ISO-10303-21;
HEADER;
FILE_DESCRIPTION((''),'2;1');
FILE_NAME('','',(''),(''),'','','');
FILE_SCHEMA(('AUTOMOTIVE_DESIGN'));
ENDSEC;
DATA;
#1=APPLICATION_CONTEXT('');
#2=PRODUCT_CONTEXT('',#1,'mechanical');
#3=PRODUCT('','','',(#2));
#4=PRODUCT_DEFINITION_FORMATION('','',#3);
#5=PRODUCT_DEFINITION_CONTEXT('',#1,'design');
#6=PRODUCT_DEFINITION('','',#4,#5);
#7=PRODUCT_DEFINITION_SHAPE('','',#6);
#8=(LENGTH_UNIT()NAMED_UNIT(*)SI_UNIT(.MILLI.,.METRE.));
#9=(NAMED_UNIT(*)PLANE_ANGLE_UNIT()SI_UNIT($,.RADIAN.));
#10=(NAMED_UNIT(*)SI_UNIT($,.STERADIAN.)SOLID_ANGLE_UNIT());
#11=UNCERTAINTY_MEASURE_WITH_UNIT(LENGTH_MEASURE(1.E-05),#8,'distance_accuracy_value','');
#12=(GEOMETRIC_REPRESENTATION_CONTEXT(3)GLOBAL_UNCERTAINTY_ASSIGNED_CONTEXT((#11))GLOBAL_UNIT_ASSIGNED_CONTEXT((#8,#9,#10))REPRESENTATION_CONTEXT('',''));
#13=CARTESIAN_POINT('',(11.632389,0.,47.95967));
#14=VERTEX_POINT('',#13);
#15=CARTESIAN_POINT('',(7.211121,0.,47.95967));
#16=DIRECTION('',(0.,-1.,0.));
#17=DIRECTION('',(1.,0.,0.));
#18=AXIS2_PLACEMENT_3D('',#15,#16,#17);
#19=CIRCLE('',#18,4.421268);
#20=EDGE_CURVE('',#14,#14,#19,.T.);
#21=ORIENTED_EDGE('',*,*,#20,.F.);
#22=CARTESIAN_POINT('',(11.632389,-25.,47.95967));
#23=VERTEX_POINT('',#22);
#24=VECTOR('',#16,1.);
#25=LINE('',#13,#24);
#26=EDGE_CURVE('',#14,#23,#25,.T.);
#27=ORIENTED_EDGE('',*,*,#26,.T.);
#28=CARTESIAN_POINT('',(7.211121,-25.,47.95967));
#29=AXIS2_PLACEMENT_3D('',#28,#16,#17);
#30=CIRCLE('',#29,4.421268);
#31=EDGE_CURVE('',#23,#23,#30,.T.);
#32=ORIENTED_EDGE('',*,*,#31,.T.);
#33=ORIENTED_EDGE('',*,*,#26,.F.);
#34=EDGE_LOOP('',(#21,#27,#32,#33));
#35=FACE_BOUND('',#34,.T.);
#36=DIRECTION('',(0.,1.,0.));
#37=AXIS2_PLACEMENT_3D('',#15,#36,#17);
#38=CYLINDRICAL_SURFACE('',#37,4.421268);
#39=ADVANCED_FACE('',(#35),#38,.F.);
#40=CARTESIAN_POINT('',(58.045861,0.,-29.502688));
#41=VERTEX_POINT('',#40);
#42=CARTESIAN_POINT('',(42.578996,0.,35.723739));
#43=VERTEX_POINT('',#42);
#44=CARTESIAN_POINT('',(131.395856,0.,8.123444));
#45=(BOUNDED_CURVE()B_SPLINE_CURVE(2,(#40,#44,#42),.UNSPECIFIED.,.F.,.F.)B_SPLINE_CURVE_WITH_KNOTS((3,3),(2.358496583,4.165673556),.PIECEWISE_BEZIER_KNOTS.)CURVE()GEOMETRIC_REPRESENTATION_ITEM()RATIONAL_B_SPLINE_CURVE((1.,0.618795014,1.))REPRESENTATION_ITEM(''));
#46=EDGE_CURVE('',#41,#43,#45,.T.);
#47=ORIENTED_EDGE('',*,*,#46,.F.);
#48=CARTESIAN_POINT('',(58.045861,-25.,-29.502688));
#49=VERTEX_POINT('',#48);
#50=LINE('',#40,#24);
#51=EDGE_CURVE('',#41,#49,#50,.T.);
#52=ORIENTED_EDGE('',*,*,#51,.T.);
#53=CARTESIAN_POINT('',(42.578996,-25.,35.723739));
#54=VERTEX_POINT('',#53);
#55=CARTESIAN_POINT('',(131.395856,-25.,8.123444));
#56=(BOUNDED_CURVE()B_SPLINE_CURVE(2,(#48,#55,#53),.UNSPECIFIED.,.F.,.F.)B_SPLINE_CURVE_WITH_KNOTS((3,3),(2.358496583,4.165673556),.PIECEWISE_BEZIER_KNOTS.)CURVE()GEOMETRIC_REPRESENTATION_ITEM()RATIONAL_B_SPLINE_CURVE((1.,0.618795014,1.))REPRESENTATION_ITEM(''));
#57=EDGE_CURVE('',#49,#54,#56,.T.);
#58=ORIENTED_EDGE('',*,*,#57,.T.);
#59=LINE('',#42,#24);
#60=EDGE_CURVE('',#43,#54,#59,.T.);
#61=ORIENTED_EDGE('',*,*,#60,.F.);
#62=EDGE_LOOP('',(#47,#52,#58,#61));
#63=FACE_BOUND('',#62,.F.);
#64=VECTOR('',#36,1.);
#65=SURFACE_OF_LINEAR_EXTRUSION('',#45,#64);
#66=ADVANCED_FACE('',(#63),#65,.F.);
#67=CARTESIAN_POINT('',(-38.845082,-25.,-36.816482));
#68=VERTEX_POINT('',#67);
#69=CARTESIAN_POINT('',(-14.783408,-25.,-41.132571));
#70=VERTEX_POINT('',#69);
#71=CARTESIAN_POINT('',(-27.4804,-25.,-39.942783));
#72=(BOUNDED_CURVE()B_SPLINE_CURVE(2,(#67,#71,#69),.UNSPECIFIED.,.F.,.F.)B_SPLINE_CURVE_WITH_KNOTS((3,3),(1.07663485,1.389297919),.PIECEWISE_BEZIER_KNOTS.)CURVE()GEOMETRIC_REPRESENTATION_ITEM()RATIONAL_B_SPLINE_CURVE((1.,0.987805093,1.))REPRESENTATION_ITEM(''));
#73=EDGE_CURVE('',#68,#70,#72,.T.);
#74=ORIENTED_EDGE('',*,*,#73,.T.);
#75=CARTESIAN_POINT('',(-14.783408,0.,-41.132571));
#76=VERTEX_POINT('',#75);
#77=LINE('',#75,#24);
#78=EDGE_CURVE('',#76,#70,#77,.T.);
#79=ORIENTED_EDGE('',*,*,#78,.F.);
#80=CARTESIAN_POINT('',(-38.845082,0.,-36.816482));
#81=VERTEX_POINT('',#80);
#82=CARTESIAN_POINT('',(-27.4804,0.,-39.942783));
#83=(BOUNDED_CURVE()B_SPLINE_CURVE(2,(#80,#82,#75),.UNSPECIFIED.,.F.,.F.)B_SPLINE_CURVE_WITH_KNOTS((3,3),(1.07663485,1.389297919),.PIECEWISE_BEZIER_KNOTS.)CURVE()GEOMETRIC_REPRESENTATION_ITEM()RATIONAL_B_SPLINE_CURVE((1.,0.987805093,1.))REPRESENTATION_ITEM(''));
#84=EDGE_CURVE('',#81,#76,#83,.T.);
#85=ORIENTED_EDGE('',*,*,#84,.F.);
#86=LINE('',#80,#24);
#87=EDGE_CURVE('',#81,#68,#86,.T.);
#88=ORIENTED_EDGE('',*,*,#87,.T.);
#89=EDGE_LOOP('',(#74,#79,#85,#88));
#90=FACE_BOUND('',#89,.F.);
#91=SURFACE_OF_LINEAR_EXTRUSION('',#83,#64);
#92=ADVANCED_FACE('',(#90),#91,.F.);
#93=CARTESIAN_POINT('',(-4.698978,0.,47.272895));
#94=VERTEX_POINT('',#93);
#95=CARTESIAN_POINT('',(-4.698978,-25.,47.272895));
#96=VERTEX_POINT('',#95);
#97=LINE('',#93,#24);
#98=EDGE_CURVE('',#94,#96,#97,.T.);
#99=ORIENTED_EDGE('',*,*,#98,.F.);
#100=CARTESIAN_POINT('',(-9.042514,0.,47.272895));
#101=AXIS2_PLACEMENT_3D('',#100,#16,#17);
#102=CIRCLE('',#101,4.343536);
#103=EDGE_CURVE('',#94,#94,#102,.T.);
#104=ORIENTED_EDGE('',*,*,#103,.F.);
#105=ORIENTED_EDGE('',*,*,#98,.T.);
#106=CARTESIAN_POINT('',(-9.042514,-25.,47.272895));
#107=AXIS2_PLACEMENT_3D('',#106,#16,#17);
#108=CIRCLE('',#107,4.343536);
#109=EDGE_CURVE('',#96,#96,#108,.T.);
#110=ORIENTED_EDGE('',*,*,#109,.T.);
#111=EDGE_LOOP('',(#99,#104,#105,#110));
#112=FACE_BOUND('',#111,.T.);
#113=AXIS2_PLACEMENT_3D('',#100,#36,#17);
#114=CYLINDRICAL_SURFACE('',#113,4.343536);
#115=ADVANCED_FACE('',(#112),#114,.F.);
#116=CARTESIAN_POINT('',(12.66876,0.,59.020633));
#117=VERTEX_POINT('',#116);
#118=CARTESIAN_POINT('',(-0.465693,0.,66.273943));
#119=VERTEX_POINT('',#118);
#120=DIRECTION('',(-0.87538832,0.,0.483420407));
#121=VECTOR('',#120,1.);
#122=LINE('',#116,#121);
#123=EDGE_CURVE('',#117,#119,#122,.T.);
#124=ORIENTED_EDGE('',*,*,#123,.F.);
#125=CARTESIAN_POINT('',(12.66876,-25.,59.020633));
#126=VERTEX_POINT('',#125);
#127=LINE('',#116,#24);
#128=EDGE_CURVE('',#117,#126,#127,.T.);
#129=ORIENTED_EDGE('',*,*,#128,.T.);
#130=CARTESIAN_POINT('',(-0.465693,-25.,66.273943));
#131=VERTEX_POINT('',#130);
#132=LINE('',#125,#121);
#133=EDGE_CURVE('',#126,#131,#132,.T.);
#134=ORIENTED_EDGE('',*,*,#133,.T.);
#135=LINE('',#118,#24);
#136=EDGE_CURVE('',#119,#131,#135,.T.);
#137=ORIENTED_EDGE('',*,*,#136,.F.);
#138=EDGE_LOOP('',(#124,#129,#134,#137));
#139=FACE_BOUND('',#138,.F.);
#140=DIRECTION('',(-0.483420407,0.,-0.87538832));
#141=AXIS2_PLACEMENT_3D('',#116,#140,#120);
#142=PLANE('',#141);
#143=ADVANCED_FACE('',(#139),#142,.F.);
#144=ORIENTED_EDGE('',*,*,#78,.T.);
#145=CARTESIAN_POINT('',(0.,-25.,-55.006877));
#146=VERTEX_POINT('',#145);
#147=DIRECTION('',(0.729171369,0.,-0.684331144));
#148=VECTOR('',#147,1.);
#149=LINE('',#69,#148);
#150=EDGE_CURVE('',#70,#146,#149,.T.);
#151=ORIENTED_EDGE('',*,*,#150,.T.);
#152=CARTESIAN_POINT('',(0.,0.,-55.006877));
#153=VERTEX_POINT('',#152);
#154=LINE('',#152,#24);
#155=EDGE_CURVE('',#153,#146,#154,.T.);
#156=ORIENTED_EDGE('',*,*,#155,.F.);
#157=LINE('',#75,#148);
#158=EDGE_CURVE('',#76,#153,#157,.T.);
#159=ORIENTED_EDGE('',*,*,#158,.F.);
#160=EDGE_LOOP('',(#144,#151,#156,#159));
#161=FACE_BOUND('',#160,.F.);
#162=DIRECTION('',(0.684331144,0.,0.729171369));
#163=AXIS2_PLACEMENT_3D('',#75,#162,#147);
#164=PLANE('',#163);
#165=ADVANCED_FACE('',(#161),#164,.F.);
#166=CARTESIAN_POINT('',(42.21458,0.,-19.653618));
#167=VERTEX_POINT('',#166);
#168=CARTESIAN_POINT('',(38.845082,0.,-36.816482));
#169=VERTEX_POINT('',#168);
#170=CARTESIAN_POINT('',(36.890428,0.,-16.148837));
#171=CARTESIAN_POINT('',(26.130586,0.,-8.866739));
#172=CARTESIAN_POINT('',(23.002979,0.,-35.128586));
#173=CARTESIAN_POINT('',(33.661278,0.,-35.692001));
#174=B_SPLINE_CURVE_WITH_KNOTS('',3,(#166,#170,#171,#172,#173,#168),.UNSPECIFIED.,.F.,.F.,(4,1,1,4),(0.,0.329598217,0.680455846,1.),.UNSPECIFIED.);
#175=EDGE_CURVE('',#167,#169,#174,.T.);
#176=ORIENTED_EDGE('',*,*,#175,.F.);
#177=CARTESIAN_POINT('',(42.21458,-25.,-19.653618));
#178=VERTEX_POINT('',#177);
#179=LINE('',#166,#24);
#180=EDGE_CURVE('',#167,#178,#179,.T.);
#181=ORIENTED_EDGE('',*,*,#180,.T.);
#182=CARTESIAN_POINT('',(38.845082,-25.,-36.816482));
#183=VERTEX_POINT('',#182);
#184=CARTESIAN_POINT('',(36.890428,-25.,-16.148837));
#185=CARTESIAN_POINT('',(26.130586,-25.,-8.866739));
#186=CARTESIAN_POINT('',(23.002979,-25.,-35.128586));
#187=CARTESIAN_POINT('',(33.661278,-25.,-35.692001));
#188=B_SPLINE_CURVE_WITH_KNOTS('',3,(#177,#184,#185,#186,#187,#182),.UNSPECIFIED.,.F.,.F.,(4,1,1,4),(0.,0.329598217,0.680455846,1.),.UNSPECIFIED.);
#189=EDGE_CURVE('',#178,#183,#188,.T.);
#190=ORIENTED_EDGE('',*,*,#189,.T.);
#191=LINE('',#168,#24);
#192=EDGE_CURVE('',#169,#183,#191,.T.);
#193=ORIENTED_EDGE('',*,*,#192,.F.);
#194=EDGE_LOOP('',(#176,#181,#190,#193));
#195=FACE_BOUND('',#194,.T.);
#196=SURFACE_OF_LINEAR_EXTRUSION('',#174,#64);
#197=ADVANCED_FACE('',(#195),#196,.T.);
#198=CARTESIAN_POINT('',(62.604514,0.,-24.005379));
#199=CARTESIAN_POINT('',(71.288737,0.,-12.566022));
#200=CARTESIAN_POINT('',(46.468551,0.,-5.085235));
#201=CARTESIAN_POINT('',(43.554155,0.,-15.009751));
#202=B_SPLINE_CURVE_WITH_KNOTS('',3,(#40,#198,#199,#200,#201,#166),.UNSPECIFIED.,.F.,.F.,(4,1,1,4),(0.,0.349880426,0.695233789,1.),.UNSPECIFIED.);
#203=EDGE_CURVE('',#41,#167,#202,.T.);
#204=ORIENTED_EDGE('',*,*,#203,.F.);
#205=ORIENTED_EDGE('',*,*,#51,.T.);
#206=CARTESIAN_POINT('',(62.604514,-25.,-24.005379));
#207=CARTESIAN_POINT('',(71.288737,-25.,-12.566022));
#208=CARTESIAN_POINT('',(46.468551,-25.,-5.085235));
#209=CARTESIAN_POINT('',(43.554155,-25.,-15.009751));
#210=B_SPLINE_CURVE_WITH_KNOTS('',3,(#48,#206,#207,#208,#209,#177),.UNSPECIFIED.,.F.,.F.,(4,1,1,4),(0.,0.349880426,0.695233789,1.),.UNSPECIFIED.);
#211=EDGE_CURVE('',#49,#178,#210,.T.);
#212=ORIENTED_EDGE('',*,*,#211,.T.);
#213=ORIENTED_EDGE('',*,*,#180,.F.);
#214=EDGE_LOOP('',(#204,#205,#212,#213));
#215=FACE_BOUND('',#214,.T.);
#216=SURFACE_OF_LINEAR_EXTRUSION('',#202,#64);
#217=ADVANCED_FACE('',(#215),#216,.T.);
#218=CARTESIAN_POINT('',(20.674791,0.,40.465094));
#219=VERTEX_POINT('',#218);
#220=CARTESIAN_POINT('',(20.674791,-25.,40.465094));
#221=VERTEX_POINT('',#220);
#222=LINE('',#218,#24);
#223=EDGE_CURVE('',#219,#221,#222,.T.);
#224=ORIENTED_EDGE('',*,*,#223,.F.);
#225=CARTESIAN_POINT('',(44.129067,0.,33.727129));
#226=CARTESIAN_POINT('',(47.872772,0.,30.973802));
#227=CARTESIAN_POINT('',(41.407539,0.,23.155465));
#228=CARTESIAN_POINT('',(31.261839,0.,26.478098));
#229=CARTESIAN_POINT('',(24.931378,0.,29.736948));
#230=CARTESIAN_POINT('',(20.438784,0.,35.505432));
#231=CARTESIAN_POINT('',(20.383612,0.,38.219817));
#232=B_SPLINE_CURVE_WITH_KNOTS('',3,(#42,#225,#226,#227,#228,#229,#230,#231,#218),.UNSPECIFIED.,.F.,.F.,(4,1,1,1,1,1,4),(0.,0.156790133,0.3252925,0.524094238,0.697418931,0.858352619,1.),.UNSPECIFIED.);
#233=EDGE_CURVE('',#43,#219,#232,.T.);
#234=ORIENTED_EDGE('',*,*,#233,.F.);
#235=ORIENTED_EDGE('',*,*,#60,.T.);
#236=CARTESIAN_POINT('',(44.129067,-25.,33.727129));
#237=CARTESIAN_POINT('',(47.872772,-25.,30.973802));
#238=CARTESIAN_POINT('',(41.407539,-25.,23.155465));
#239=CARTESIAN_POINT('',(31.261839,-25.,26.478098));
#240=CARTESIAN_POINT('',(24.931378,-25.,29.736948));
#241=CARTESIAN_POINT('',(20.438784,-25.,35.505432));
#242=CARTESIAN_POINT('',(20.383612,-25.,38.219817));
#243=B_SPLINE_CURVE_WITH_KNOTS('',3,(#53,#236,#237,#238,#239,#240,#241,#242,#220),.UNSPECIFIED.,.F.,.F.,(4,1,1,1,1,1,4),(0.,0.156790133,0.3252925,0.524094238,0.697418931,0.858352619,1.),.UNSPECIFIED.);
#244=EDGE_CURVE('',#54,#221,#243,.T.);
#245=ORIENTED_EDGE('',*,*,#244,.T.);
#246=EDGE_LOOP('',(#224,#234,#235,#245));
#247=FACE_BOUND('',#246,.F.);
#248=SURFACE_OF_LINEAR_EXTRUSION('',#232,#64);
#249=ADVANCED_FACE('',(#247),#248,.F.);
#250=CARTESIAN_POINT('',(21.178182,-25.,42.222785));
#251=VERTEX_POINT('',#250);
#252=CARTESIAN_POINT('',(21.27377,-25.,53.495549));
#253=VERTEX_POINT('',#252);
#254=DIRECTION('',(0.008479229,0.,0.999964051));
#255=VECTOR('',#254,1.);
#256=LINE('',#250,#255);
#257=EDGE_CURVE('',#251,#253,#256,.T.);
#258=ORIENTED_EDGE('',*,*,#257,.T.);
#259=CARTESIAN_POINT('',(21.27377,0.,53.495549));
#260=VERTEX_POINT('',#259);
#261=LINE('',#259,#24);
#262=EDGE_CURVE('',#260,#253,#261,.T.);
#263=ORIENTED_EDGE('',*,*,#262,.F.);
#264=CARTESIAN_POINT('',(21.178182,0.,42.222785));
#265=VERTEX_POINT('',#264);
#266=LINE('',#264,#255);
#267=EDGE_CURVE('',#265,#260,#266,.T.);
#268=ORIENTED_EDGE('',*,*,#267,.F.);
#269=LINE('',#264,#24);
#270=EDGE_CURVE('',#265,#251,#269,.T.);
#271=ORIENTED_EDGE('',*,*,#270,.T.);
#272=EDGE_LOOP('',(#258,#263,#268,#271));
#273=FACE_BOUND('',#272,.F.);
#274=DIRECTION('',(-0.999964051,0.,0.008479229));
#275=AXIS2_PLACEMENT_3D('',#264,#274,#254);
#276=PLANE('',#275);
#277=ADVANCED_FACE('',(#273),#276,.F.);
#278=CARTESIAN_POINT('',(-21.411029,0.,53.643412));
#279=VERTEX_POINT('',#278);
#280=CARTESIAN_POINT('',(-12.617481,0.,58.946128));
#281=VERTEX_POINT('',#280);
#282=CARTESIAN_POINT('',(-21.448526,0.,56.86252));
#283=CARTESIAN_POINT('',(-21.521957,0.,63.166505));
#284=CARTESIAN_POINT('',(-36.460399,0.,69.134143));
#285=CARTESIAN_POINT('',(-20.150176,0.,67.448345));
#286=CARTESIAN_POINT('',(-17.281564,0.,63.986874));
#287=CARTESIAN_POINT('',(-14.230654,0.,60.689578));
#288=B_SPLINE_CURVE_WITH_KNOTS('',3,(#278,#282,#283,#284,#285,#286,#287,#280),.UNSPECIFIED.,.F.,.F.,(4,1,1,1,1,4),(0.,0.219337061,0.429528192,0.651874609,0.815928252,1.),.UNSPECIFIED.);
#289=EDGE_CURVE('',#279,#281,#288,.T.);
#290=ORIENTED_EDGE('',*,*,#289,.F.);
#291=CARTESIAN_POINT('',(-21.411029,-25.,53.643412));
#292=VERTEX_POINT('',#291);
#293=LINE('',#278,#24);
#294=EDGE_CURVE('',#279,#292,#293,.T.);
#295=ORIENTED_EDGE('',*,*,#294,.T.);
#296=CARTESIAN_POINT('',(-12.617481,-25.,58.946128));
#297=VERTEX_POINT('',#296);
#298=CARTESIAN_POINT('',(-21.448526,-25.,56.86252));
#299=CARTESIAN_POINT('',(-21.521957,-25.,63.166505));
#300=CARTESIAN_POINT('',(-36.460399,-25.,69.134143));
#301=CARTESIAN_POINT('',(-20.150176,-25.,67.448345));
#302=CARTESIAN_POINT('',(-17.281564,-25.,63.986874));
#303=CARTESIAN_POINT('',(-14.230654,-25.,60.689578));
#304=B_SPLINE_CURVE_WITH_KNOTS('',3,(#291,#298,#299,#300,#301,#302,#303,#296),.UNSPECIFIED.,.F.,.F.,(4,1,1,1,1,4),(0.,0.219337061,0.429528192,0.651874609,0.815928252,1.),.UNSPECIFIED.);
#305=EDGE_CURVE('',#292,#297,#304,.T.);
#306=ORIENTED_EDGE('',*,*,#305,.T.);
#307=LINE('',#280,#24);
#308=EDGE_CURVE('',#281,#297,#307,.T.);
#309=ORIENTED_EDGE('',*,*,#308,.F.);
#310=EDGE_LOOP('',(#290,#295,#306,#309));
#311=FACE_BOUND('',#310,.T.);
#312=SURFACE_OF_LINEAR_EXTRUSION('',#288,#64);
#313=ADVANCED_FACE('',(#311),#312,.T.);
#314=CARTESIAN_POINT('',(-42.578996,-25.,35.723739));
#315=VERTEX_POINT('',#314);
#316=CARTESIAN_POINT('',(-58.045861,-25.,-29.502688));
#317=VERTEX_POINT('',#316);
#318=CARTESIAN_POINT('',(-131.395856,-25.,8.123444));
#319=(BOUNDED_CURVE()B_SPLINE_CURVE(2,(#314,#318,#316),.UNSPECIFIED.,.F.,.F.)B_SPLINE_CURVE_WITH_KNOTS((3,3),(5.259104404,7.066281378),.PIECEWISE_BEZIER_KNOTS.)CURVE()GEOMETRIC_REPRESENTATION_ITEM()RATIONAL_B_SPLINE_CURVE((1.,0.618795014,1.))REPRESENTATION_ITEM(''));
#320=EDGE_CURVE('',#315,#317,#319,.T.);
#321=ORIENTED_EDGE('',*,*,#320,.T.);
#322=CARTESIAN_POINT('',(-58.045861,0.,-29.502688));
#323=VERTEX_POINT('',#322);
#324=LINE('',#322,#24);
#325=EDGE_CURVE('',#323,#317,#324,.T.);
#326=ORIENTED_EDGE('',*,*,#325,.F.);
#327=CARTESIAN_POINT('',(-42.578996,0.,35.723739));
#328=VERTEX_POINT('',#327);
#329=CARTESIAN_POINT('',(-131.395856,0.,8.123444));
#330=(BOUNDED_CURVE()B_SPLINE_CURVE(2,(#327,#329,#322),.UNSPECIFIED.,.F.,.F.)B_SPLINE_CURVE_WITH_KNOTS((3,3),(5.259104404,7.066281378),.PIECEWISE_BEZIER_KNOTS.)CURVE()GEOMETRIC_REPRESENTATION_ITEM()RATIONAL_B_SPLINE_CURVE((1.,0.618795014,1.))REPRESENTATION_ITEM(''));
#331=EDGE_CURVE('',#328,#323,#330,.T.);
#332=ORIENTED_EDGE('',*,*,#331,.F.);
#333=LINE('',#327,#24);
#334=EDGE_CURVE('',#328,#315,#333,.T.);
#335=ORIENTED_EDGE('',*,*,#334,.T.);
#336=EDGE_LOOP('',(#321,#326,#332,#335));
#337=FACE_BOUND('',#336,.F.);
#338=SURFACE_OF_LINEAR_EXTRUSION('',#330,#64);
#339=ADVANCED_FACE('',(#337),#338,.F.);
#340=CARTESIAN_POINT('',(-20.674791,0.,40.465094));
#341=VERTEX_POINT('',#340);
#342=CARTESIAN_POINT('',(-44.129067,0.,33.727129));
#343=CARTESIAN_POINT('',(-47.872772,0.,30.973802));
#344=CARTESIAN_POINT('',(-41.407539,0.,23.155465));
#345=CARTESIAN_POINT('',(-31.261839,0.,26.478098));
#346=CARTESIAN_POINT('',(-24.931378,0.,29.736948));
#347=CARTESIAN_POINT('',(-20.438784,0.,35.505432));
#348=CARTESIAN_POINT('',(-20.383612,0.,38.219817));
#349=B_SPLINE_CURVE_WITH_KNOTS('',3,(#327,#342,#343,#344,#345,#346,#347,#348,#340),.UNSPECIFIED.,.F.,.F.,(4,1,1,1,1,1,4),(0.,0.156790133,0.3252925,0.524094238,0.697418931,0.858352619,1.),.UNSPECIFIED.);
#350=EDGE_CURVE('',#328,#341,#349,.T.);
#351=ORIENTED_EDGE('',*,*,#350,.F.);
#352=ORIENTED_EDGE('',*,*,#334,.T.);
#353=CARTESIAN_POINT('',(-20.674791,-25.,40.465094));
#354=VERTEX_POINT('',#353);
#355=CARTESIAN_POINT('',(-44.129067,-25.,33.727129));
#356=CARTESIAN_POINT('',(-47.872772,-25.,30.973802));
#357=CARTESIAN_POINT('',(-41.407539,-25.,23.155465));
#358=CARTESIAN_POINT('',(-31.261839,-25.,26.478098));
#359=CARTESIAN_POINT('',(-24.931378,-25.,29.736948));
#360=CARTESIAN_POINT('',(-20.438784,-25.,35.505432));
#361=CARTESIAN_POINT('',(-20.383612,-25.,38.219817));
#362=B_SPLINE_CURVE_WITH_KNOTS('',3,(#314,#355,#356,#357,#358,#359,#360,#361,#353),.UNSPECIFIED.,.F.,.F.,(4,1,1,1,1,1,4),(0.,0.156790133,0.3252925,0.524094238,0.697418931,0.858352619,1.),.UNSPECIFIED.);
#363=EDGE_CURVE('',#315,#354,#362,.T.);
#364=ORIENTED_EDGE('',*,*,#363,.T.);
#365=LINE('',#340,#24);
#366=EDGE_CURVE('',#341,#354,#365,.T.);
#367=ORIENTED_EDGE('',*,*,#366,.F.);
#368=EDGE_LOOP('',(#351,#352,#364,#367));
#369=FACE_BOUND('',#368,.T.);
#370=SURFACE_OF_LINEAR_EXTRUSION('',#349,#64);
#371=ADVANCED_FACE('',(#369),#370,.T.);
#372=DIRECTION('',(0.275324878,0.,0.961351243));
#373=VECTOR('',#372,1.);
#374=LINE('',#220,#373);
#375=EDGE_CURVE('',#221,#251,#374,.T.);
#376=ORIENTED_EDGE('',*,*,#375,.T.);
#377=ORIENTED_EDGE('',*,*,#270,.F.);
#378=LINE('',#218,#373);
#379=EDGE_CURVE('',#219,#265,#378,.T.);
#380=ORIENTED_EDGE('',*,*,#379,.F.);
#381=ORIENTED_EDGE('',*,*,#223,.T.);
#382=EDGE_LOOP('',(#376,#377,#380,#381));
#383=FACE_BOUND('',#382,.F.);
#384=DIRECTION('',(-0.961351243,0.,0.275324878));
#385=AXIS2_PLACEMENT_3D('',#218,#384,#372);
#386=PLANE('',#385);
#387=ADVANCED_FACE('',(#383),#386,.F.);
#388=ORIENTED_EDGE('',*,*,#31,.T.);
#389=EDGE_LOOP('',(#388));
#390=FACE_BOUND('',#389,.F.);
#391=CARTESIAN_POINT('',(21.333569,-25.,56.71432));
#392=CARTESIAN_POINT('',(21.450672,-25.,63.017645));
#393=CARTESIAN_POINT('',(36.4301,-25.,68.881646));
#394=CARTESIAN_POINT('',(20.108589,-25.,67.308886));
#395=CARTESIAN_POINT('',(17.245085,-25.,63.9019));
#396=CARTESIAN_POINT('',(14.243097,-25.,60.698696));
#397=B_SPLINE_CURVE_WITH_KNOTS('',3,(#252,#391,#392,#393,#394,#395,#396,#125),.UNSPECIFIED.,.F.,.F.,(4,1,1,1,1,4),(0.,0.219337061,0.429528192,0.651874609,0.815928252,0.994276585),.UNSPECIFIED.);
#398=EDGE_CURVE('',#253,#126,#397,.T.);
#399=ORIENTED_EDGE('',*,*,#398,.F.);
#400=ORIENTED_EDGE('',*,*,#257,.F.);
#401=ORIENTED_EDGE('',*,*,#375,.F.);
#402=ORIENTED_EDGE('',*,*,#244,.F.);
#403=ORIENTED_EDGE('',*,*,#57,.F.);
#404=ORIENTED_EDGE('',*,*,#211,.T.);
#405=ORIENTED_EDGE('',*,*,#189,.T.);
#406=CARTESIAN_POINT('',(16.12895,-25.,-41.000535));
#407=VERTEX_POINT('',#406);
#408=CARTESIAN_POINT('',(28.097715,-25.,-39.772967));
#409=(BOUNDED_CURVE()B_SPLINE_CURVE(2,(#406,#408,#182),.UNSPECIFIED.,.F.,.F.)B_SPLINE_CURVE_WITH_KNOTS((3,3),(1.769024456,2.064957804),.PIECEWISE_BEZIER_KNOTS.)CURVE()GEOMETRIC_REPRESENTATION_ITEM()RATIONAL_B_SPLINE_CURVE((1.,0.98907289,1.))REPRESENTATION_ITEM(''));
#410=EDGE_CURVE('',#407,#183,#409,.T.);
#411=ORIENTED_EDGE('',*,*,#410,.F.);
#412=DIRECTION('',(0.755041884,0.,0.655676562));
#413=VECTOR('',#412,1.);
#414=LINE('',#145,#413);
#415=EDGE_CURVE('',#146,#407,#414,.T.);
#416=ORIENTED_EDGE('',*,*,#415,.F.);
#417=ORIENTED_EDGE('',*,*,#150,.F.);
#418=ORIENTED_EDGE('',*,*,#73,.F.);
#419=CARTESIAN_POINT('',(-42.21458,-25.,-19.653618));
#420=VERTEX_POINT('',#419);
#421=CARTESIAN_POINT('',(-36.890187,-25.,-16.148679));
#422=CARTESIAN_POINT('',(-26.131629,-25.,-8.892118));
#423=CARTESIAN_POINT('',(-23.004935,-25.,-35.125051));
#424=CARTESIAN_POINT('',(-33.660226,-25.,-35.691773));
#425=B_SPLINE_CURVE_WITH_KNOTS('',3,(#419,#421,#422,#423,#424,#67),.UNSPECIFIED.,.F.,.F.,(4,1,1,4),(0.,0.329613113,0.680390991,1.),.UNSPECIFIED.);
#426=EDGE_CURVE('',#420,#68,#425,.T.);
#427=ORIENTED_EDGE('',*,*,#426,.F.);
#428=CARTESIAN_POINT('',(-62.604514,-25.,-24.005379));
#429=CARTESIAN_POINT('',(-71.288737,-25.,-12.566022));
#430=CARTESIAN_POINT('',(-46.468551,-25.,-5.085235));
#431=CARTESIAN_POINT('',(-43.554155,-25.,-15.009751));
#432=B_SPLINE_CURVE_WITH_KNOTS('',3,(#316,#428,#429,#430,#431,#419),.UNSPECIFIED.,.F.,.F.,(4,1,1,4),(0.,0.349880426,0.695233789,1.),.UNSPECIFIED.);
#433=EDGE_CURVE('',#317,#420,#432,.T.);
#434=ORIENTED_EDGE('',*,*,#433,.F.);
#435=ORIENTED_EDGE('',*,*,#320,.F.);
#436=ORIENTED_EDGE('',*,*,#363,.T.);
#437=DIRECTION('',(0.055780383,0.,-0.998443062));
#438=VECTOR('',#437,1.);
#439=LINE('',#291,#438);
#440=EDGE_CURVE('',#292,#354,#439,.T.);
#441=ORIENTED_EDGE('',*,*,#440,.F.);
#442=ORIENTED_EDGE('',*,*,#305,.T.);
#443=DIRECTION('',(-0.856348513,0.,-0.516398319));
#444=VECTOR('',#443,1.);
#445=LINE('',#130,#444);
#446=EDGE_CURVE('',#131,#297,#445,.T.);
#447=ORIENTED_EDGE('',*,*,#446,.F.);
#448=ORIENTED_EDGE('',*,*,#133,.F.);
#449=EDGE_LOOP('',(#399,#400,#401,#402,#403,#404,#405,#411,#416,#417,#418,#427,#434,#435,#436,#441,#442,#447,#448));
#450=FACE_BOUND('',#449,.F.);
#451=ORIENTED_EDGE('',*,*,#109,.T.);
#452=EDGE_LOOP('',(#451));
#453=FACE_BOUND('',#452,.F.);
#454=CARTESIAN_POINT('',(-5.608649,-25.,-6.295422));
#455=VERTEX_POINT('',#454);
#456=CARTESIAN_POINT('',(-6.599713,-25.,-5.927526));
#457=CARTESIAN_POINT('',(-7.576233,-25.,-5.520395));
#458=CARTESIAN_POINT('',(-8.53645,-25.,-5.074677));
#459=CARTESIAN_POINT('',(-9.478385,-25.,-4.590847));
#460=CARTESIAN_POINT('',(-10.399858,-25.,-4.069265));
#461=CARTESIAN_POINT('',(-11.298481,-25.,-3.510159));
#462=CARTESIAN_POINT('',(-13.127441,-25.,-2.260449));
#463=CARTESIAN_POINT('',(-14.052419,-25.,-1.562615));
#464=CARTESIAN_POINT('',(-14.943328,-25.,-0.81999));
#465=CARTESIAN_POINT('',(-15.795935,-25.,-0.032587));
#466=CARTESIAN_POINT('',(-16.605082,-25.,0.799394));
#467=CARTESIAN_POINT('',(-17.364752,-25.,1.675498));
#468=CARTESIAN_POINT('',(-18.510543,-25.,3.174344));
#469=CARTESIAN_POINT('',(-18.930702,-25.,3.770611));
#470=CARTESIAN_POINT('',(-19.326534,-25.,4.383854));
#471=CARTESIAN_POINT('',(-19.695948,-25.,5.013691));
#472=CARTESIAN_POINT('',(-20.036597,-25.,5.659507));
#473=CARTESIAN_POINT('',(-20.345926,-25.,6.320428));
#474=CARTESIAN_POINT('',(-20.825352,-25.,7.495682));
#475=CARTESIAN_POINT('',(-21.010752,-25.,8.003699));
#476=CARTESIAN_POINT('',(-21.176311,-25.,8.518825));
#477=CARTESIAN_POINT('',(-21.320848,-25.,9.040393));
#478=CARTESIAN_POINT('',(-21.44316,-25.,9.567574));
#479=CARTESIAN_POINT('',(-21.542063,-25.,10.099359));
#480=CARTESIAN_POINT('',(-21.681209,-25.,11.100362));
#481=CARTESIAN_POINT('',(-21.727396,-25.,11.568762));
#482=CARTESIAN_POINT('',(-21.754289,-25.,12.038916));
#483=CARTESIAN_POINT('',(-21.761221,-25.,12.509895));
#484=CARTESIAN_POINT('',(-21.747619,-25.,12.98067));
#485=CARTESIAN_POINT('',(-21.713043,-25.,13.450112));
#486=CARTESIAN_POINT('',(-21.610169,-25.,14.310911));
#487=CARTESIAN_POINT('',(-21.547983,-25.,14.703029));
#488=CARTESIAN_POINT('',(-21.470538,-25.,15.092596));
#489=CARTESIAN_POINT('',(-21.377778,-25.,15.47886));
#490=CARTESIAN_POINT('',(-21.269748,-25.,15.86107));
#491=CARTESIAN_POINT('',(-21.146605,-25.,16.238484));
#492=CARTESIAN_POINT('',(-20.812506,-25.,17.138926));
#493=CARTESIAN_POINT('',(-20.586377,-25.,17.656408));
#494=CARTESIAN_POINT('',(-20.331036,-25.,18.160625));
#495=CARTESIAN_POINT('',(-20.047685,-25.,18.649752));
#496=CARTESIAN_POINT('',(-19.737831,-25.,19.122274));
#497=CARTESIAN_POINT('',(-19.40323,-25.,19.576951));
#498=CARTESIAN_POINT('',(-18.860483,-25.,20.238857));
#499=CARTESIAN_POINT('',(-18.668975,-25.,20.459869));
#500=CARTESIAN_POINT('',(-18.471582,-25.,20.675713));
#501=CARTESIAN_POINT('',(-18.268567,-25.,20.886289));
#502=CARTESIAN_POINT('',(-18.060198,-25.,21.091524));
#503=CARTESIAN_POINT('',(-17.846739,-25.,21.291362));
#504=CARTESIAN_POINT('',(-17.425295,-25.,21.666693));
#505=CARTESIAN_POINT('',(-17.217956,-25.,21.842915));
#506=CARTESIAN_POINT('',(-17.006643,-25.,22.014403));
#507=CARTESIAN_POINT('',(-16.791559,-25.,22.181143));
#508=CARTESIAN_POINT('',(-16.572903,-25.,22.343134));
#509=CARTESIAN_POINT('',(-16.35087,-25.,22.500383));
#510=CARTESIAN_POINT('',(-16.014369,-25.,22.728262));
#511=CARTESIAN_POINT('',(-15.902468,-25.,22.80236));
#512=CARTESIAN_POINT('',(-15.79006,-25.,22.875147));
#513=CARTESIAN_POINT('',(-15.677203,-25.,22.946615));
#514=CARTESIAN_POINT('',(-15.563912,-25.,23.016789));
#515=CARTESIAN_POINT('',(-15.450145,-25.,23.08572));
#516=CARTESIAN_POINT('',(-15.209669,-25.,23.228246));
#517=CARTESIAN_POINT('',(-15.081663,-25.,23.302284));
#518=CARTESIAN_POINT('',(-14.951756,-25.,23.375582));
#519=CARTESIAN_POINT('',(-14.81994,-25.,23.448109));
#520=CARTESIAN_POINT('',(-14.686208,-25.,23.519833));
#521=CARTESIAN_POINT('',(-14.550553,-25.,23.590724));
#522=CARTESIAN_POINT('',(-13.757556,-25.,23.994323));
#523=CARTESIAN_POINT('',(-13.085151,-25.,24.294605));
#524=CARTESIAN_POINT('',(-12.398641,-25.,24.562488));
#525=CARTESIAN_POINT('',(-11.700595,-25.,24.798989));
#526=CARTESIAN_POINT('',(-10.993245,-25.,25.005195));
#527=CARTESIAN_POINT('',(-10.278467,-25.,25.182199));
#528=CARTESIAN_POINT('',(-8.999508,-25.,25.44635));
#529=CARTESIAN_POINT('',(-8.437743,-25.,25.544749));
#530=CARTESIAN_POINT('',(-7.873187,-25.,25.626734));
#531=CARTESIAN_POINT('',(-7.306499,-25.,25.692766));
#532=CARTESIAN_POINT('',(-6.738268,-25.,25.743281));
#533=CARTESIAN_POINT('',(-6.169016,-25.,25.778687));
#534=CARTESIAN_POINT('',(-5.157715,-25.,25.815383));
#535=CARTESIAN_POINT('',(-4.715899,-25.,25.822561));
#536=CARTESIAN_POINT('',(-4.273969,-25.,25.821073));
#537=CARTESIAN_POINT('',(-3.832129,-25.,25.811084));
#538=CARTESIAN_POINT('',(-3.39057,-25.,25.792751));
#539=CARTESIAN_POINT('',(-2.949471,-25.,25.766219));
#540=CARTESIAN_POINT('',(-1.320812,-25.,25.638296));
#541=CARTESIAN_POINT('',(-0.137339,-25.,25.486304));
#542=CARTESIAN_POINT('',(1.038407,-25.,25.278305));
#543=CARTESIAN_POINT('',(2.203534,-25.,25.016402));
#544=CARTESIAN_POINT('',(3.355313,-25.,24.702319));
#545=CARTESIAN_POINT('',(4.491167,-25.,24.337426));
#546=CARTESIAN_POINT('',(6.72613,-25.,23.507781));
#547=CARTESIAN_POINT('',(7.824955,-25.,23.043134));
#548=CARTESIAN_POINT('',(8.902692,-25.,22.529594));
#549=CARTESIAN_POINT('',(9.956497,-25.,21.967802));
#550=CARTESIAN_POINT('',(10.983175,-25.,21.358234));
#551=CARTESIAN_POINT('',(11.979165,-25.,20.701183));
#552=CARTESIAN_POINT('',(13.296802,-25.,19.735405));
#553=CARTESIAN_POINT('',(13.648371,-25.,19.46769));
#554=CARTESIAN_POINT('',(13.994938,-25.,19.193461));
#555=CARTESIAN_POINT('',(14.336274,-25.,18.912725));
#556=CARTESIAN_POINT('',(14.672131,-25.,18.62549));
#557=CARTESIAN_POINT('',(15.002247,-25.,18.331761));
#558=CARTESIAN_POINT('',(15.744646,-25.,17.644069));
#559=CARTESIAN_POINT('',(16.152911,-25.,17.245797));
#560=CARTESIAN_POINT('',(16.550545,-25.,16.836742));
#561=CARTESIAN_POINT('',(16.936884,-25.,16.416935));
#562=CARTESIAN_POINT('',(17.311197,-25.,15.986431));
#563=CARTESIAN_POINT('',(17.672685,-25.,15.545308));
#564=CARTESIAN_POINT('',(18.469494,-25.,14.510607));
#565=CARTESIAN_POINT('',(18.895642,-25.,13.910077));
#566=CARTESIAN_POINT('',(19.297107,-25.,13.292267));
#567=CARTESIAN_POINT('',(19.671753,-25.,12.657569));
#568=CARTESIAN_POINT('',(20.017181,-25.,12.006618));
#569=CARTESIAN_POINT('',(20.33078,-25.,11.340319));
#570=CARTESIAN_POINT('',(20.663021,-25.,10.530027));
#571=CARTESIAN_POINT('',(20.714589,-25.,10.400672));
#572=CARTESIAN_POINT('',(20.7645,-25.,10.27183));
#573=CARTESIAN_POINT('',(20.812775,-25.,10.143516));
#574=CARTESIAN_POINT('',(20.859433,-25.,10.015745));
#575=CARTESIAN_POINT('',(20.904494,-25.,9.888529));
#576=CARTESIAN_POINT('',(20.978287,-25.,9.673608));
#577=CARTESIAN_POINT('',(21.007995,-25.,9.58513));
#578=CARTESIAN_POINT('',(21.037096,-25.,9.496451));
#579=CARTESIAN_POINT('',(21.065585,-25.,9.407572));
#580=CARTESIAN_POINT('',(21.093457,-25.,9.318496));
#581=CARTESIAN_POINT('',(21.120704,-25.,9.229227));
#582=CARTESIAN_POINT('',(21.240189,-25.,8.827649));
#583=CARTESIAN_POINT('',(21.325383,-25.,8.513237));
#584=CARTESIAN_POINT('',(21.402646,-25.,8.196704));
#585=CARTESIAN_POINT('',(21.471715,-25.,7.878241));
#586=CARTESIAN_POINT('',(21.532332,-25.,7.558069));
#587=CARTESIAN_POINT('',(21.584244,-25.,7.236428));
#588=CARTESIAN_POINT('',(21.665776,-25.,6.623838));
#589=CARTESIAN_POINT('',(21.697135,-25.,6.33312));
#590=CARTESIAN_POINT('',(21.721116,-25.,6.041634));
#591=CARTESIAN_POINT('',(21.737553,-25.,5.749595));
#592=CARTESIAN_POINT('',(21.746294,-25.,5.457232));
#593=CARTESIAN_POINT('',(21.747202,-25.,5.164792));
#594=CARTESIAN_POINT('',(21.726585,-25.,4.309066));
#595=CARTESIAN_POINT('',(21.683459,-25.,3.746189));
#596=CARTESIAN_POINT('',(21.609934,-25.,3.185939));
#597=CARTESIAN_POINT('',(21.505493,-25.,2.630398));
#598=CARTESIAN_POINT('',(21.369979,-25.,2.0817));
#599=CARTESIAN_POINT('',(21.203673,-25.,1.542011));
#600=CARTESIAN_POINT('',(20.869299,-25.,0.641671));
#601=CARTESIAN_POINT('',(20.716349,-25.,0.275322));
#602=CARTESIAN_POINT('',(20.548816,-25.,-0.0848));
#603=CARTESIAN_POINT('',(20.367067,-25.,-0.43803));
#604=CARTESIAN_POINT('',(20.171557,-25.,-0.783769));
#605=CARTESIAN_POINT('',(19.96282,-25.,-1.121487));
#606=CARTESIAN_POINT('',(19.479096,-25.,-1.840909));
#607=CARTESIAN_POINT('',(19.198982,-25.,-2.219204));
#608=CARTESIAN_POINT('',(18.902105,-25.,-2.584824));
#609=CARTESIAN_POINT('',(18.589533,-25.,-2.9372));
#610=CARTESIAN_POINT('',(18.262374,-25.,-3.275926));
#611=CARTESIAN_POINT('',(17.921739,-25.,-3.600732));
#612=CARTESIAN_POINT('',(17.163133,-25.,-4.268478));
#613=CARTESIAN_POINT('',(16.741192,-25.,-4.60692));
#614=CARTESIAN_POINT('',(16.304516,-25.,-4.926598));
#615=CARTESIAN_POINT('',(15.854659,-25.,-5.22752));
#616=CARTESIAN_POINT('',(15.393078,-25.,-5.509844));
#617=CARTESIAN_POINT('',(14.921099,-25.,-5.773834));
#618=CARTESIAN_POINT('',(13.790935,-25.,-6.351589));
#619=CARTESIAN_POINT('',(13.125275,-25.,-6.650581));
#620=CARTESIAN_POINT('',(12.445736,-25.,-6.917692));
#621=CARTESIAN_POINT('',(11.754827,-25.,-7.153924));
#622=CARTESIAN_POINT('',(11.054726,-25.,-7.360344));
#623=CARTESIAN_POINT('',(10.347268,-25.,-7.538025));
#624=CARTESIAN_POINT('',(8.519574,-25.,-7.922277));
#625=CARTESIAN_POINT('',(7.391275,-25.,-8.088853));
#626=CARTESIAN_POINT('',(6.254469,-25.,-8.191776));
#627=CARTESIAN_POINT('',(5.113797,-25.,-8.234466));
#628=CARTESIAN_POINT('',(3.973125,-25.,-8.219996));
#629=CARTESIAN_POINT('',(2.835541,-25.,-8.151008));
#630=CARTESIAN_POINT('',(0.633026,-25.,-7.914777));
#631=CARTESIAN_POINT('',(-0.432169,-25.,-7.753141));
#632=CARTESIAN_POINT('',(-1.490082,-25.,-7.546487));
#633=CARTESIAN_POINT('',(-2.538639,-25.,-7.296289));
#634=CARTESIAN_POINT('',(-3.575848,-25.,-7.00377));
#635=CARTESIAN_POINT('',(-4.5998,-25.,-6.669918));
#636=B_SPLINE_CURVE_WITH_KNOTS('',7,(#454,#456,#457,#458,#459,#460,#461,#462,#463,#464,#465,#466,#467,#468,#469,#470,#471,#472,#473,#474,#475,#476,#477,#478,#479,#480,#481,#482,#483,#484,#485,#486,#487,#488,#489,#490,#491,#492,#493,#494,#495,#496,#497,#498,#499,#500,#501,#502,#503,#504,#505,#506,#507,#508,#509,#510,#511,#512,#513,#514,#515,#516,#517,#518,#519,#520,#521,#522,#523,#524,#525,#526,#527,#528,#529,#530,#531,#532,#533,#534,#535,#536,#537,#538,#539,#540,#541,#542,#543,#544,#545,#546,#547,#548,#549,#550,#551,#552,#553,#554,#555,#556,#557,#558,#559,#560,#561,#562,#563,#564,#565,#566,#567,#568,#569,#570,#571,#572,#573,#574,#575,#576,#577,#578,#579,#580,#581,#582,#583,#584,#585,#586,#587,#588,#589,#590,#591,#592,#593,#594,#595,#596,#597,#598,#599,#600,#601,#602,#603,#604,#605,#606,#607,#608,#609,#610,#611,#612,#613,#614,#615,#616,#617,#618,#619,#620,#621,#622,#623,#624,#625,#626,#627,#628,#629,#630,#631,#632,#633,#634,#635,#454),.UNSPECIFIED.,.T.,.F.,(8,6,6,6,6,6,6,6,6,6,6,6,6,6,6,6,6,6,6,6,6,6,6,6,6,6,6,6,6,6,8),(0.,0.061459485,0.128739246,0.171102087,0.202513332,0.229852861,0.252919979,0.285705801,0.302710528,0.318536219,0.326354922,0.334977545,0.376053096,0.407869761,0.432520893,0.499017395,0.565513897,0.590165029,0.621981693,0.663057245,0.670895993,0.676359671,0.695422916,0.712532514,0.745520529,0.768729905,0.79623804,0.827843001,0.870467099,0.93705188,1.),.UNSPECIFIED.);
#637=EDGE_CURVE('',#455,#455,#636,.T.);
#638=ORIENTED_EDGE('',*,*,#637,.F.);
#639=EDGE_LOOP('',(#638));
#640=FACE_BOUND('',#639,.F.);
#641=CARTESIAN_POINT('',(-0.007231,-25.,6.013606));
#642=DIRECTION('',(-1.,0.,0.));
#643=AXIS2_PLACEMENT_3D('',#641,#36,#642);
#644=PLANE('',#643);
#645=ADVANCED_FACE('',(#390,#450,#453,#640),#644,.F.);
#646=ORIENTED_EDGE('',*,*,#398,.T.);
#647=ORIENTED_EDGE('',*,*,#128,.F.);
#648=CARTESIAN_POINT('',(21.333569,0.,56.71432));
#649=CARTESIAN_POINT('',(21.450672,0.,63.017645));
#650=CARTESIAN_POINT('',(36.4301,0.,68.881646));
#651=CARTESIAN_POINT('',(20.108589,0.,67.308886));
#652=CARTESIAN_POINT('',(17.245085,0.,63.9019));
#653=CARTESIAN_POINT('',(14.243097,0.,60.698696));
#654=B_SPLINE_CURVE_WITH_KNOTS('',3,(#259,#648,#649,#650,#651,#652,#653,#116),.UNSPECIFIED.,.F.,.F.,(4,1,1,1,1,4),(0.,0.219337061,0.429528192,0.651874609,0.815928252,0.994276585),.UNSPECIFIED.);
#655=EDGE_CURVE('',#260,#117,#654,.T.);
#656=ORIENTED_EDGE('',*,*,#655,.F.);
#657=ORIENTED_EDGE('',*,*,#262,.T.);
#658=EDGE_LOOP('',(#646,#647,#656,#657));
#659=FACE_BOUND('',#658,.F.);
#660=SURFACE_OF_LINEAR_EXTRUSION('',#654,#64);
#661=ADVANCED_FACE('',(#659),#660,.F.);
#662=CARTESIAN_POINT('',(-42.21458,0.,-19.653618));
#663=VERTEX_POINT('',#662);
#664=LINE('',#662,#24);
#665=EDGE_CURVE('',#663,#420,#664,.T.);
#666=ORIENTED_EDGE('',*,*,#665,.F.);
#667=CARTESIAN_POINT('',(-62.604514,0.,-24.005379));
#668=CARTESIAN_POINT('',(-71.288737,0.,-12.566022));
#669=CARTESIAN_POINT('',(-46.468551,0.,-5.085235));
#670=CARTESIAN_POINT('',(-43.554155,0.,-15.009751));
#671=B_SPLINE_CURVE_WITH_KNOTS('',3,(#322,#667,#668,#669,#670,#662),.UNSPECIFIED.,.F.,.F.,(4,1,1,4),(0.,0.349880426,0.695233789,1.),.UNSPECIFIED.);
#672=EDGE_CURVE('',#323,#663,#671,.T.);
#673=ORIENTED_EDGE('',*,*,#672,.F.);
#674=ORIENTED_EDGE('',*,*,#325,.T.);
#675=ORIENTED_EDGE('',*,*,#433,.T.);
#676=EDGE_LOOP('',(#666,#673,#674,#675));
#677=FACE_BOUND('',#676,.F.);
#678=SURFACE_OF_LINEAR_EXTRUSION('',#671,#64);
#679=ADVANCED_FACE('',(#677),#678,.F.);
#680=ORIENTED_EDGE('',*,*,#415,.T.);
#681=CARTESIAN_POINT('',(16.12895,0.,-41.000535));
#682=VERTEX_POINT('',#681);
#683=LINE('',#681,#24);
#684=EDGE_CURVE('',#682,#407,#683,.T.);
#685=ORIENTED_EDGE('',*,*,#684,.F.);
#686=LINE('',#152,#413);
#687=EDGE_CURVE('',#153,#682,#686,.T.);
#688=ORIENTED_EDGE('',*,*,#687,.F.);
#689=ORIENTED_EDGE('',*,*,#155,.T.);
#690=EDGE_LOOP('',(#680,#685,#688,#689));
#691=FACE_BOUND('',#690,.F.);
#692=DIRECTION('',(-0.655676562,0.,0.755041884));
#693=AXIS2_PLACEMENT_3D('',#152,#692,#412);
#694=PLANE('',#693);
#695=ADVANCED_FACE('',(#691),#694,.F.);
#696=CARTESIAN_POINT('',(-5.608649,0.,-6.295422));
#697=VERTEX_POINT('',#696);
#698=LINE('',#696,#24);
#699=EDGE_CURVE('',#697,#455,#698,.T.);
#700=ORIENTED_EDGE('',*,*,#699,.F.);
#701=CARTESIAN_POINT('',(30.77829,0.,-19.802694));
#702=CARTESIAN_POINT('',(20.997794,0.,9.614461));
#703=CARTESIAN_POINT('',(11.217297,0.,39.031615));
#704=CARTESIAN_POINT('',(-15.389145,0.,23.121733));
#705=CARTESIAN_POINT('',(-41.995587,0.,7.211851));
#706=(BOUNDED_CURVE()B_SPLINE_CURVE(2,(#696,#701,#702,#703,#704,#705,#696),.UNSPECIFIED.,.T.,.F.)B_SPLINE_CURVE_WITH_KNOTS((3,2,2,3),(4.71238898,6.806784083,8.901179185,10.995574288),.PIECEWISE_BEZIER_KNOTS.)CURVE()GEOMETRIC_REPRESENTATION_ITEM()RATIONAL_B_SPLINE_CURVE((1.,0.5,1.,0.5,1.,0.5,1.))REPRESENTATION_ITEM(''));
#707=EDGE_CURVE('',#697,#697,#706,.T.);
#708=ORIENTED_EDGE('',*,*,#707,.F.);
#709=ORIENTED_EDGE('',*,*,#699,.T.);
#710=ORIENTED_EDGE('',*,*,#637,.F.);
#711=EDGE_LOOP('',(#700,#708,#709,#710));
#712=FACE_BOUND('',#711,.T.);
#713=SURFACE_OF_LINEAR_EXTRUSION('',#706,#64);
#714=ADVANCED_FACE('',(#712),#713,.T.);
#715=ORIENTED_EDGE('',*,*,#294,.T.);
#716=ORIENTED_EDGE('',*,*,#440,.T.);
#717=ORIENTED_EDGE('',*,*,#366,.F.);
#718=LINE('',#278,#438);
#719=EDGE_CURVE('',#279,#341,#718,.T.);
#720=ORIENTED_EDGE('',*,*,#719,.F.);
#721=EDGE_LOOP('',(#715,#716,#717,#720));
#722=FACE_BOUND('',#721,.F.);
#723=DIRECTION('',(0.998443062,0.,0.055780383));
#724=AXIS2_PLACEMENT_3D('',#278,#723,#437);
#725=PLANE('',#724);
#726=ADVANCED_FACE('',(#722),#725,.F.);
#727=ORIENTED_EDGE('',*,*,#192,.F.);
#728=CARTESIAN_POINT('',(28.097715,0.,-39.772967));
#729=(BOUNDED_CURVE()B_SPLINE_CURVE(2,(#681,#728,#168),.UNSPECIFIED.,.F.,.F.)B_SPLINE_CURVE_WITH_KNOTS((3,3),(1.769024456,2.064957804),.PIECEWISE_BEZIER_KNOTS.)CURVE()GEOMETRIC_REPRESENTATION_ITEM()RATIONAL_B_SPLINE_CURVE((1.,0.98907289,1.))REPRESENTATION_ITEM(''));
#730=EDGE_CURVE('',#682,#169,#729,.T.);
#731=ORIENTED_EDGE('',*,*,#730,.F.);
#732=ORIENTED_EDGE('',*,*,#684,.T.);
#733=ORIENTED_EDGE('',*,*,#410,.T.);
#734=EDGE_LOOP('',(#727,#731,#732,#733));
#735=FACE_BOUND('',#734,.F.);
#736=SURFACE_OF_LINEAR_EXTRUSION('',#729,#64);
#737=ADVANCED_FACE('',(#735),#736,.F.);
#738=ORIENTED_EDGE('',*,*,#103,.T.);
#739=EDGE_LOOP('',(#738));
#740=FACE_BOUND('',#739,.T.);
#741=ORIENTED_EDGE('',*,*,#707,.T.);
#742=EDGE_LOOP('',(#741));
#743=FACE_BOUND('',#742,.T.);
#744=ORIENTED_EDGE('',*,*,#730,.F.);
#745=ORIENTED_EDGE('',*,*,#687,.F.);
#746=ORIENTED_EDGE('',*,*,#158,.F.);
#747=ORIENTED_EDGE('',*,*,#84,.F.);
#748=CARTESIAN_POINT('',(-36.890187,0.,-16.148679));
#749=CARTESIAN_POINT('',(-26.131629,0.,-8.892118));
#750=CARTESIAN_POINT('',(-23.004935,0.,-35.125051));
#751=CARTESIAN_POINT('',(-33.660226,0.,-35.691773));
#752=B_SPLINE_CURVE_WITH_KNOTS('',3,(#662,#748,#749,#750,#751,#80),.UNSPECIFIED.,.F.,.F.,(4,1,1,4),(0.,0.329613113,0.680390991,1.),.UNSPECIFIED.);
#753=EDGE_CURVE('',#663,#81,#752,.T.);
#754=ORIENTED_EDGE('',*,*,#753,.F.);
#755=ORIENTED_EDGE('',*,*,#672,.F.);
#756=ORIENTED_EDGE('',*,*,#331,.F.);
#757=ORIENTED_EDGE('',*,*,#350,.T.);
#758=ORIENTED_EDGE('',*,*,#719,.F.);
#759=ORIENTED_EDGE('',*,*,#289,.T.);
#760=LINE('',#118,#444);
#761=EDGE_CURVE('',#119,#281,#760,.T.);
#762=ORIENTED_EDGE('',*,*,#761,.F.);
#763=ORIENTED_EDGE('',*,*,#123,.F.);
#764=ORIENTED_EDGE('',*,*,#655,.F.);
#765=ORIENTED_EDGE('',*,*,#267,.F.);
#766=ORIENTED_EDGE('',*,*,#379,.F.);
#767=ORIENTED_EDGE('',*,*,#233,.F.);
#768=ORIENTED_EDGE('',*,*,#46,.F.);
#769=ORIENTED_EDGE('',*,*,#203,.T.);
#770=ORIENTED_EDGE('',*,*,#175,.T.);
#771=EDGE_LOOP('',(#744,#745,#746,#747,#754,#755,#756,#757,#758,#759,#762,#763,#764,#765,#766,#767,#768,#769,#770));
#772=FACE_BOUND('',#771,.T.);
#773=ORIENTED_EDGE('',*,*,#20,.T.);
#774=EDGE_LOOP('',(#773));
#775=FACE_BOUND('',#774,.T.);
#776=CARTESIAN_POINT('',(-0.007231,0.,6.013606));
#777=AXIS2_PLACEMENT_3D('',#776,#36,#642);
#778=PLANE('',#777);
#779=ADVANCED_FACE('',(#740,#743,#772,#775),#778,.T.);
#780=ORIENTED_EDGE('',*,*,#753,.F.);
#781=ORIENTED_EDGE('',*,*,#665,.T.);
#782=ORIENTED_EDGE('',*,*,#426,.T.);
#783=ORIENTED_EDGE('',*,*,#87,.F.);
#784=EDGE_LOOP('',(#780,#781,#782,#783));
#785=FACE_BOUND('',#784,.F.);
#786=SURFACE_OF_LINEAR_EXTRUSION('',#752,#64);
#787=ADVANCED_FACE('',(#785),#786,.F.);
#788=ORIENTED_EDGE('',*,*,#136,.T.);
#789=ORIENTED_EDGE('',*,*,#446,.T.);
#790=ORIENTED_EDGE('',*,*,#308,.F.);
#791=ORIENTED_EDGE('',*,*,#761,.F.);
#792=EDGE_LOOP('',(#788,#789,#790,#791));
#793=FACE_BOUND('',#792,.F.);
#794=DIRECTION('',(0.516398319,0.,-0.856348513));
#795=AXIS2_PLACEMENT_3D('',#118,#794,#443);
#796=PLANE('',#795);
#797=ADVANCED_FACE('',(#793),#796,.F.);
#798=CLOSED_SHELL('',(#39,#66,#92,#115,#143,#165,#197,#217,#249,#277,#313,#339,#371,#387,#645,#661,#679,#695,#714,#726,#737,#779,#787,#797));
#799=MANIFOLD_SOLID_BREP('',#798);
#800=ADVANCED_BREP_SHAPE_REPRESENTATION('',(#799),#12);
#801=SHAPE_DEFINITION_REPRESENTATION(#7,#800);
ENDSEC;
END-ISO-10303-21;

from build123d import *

# Parameters (mm, degrees)
F0_R     = 4.343536077
F0_R_2   = 4.4212681919
F1_DEPTH = 25
F3_DEPTH = 89.1


with BuildPart() as f1:
    # F0 (on Front) → F1 (new body)
    with BuildSketch(Plane.XZ):
        with BuildLine():
            add(Edge.make_bspline(
                [(-42.5789955947, 35.7237389808), (-44.1290673891, 33.7271293909), (-47.8727718839, 30.9738019057), (-41.4075391544, 23.1554651105), (-31.2618393067, 26.4780976478), (-24.9313776529, 29.7369479228), (-20.4387838067, 35.5054320295), (-20.3836122993, 38.2198165173), (-20.6747909206, 40.4650942553)],
                knots=[0, 0, 0, 0, 0.1567901334, 0.3252925003, 0.5240942378, 0.6974189313, 0.8583526187, 1, 1, 1, 1], degree=3))
            add(Edge.make_bspline(
                [(-42.5789955947, 35.7237389808), (-131.3958555945, 8.1234439542), (-58.045860883, -29.5026875001)],
                knots=[5.2591044043, 5.2591044043, 5.2591044043, 7.0662813777, 7.0662813777, 7.0662813777], degree=2, weights=[1, 0.6187950138, 1]))
            add(Edge.make_bspline(
                [(-58.045860883, -29.5026875001), (-62.604514395, -24.0053786584), (-71.2887374681, -12.5660216125), (-46.4685514653, -5.0852349895), (-43.5541548833, -15.0097510878), (-42.2145798802, -19.6536183357)],
                knots=[0, 0, 0, 0, 0.3498804264, 0.6952337889, 1, 1, 1, 1], degree=3))
            add(Edge.make_bspline(
                [(-42.2145798802, -19.6536183357), (-36.8901871826, -16.1486790794), (-26.1316292472, -8.8921175573), (-23.0049349937, -35.1250507645), (-33.6602260852, -35.6917728883), (-38.8450818012, -36.8164820556)],
                knots=[0, 0, 0, 0, 0.3296131125, 0.6803909908, 1, 1, 1, 1], degree=3))
            add(Edge.make_bspline(
                [(-38.8450818012, -36.8164820556), (-27.4804000382, -39.9427833875), (-14.7834080706, -41.1325707736)],
                knots=[1.0766348496, 1.0766348496, 1.0766348496, 1.3892979187, 1.3892979187, 1.3892979187], degree=2, weights=[1, 0.9878050925, 1]))
            Line((-14.7834080706, -41.1325707736), (0, -55.0068765879))
            Line((0, -55.0068765879), (16.1289498237, -41.0005352266))
            add(Edge.make_bspline(
                [(16.1289498237, -41.0005352266), (28.0977145218, -39.7729668337), (38.8450818011, -36.8164820556)],
                knots=[1.7690244559, 1.7690244559, 1.7690244559, 2.0649578039, 2.0649578039, 2.0649578039], degree=2, weights=[1, 0.9890728902, 1]))
            add(Edge.make_bspline(
                [(42.2145798802, -19.6536183357), (36.890427794, -16.148837469), (26.1305856867, -8.8667391985), (23.0029790845, -35.1285857295), (33.661278201, -35.6920011154), (38.8450818011, -36.8164820556)],
                knots=[0, 0, 0, 0, 0.3295982171, 0.6804558461, 1, 1, 1, 1], degree=3))
            add(Edge.make_bspline(
                [(58.045860883, -29.5026875001), (62.604514395, -24.0053786584), (71.2887374681, -12.5660216125), (46.4685514653, -5.0852349895), (43.5541548833, -15.0097510878), (42.2145798802, -19.6536183357)],
                knots=[0, 0, 0, 0, 0.3498804264, 0.6952337889, 1, 1, 1, 1], degree=3))
            add(Edge.make_bspline(
                [(58.045860883, -29.5026875001), (131.3958555945, 8.1234439542), (42.5789955947, 35.7237389808)],
                knots=[2.3584965831, 2.3584965831, 2.3584965831, 4.1656735565, 4.1656735565, 4.1656735565], degree=2, weights=[1, 0.6187950138, 1]))
            add(Edge.make_bspline(
                [(42.5789955947, 35.7237389808), (44.1290673891, 33.7271293909), (47.8727718839, 30.9738019057), (41.4075391544, 23.1554651105), (31.2618393067, 26.4780976478), (24.9313776529, 29.7369479228), (20.4387838067, 35.5054320295), (20.3836122993, 38.2198165173), (20.6747909206, 40.4650942553)],
                knots=[0, 0, 0, 0, 0.1567901334, 0.3252925003, 0.5240942378, 0.6974189313, 0.8583526187, 1, 1, 1, 1], degree=3))
            Line((20.6747909206, 40.4650942553), (21.1781824952, 42.2227854591))
            Line((21.1781824952, 42.2227854591), (21.2737702686, 53.4955488263))
            add(Edge.make_bspline(
                [(21.2737702686, 53.4955488263), (21.3335687415, 56.7143197433), (21.4506722073, 63.0176450902), (36.4300998889, 68.8816457515), (20.1085893276, 67.3088863882), (17.2450849236, 63.9019002613), (14.2430967269, 60.6986959544), (12.6687599094, 59.0206331345)],
                knots=[0, 0, 0, 0, 0.2193370606, 0.4295281924, 0.6518746091, 0.8159282522, 0.994276585, 0.994276585, 0.994276585, 0.994276585], degree=3))
            Line((12.6687599094, 59.0206331345), (-0.4656925801, 66.2739425835))
            Line((-0.4656925801, 66.2739425835), (-12.617480804, 58.9461281244))
            add(Edge.make_bspline(
                [(-21.4110287852, 53.6434116143), (-21.4485260469, 56.8625195697), (-21.5219570074, 63.1665049396), (-36.4603991598, 69.1341429553), (-20.150176442, 67.4483452466), (-17.2815643601, 63.9868742512), (-14.2306537236, 60.6895778393), (-12.617480804, 58.9461281244)],
                knots=[0, 0, 0, 0, 0.2193370606, 0.4295281924, 0.6518746091, 0.8159282522, 1, 1, 1, 1], degree=3))
            Line((-21.4110287852, 53.6434116143), (-20.6747909206, 40.4650942553))
        make_face()
        with Locations((-9.0425144881, 47.2728945315)):
            Circle(F0_R, mode=Mode.SUBTRACT)
        with Locations((7.2111207992, 47.9596704245)):
            Circle(F0_R_2, mode=Mode.SUBTRACT)
    extrude(amount=F1_DEPTH)

    # F2 (on Front) → F3 (cut)
    with BuildSketch(Plane.XZ):
        with BuildLine():
            add(Edge.make_bspline(
                [(-5.6086485274, -6.2954216264), (30.7782901362, -19.8026943036), (20.9977935955, 9.6144605886), (11.2172970548, 39.0316154808), (-15.3891450681, 23.1217332658), (-41.995587191, 7.2118510508), (-5.6086485274, -6.2954216264)],
                knots=[4.7123889804, 4.7123889804, 4.7123889804, 6.8067840828, 6.8067840828, 8.9011791852, 8.9011791852, 10.9955742876, 10.9955742876, 10.9955742876], degree=2, weights=[1, 0.5, 1, 0.5, 1, 0.5, 1]))
        make_face()
    extrude(amount=F3_DEPTH, mode=Mode.SUBTRACT)


solid = f1.part
